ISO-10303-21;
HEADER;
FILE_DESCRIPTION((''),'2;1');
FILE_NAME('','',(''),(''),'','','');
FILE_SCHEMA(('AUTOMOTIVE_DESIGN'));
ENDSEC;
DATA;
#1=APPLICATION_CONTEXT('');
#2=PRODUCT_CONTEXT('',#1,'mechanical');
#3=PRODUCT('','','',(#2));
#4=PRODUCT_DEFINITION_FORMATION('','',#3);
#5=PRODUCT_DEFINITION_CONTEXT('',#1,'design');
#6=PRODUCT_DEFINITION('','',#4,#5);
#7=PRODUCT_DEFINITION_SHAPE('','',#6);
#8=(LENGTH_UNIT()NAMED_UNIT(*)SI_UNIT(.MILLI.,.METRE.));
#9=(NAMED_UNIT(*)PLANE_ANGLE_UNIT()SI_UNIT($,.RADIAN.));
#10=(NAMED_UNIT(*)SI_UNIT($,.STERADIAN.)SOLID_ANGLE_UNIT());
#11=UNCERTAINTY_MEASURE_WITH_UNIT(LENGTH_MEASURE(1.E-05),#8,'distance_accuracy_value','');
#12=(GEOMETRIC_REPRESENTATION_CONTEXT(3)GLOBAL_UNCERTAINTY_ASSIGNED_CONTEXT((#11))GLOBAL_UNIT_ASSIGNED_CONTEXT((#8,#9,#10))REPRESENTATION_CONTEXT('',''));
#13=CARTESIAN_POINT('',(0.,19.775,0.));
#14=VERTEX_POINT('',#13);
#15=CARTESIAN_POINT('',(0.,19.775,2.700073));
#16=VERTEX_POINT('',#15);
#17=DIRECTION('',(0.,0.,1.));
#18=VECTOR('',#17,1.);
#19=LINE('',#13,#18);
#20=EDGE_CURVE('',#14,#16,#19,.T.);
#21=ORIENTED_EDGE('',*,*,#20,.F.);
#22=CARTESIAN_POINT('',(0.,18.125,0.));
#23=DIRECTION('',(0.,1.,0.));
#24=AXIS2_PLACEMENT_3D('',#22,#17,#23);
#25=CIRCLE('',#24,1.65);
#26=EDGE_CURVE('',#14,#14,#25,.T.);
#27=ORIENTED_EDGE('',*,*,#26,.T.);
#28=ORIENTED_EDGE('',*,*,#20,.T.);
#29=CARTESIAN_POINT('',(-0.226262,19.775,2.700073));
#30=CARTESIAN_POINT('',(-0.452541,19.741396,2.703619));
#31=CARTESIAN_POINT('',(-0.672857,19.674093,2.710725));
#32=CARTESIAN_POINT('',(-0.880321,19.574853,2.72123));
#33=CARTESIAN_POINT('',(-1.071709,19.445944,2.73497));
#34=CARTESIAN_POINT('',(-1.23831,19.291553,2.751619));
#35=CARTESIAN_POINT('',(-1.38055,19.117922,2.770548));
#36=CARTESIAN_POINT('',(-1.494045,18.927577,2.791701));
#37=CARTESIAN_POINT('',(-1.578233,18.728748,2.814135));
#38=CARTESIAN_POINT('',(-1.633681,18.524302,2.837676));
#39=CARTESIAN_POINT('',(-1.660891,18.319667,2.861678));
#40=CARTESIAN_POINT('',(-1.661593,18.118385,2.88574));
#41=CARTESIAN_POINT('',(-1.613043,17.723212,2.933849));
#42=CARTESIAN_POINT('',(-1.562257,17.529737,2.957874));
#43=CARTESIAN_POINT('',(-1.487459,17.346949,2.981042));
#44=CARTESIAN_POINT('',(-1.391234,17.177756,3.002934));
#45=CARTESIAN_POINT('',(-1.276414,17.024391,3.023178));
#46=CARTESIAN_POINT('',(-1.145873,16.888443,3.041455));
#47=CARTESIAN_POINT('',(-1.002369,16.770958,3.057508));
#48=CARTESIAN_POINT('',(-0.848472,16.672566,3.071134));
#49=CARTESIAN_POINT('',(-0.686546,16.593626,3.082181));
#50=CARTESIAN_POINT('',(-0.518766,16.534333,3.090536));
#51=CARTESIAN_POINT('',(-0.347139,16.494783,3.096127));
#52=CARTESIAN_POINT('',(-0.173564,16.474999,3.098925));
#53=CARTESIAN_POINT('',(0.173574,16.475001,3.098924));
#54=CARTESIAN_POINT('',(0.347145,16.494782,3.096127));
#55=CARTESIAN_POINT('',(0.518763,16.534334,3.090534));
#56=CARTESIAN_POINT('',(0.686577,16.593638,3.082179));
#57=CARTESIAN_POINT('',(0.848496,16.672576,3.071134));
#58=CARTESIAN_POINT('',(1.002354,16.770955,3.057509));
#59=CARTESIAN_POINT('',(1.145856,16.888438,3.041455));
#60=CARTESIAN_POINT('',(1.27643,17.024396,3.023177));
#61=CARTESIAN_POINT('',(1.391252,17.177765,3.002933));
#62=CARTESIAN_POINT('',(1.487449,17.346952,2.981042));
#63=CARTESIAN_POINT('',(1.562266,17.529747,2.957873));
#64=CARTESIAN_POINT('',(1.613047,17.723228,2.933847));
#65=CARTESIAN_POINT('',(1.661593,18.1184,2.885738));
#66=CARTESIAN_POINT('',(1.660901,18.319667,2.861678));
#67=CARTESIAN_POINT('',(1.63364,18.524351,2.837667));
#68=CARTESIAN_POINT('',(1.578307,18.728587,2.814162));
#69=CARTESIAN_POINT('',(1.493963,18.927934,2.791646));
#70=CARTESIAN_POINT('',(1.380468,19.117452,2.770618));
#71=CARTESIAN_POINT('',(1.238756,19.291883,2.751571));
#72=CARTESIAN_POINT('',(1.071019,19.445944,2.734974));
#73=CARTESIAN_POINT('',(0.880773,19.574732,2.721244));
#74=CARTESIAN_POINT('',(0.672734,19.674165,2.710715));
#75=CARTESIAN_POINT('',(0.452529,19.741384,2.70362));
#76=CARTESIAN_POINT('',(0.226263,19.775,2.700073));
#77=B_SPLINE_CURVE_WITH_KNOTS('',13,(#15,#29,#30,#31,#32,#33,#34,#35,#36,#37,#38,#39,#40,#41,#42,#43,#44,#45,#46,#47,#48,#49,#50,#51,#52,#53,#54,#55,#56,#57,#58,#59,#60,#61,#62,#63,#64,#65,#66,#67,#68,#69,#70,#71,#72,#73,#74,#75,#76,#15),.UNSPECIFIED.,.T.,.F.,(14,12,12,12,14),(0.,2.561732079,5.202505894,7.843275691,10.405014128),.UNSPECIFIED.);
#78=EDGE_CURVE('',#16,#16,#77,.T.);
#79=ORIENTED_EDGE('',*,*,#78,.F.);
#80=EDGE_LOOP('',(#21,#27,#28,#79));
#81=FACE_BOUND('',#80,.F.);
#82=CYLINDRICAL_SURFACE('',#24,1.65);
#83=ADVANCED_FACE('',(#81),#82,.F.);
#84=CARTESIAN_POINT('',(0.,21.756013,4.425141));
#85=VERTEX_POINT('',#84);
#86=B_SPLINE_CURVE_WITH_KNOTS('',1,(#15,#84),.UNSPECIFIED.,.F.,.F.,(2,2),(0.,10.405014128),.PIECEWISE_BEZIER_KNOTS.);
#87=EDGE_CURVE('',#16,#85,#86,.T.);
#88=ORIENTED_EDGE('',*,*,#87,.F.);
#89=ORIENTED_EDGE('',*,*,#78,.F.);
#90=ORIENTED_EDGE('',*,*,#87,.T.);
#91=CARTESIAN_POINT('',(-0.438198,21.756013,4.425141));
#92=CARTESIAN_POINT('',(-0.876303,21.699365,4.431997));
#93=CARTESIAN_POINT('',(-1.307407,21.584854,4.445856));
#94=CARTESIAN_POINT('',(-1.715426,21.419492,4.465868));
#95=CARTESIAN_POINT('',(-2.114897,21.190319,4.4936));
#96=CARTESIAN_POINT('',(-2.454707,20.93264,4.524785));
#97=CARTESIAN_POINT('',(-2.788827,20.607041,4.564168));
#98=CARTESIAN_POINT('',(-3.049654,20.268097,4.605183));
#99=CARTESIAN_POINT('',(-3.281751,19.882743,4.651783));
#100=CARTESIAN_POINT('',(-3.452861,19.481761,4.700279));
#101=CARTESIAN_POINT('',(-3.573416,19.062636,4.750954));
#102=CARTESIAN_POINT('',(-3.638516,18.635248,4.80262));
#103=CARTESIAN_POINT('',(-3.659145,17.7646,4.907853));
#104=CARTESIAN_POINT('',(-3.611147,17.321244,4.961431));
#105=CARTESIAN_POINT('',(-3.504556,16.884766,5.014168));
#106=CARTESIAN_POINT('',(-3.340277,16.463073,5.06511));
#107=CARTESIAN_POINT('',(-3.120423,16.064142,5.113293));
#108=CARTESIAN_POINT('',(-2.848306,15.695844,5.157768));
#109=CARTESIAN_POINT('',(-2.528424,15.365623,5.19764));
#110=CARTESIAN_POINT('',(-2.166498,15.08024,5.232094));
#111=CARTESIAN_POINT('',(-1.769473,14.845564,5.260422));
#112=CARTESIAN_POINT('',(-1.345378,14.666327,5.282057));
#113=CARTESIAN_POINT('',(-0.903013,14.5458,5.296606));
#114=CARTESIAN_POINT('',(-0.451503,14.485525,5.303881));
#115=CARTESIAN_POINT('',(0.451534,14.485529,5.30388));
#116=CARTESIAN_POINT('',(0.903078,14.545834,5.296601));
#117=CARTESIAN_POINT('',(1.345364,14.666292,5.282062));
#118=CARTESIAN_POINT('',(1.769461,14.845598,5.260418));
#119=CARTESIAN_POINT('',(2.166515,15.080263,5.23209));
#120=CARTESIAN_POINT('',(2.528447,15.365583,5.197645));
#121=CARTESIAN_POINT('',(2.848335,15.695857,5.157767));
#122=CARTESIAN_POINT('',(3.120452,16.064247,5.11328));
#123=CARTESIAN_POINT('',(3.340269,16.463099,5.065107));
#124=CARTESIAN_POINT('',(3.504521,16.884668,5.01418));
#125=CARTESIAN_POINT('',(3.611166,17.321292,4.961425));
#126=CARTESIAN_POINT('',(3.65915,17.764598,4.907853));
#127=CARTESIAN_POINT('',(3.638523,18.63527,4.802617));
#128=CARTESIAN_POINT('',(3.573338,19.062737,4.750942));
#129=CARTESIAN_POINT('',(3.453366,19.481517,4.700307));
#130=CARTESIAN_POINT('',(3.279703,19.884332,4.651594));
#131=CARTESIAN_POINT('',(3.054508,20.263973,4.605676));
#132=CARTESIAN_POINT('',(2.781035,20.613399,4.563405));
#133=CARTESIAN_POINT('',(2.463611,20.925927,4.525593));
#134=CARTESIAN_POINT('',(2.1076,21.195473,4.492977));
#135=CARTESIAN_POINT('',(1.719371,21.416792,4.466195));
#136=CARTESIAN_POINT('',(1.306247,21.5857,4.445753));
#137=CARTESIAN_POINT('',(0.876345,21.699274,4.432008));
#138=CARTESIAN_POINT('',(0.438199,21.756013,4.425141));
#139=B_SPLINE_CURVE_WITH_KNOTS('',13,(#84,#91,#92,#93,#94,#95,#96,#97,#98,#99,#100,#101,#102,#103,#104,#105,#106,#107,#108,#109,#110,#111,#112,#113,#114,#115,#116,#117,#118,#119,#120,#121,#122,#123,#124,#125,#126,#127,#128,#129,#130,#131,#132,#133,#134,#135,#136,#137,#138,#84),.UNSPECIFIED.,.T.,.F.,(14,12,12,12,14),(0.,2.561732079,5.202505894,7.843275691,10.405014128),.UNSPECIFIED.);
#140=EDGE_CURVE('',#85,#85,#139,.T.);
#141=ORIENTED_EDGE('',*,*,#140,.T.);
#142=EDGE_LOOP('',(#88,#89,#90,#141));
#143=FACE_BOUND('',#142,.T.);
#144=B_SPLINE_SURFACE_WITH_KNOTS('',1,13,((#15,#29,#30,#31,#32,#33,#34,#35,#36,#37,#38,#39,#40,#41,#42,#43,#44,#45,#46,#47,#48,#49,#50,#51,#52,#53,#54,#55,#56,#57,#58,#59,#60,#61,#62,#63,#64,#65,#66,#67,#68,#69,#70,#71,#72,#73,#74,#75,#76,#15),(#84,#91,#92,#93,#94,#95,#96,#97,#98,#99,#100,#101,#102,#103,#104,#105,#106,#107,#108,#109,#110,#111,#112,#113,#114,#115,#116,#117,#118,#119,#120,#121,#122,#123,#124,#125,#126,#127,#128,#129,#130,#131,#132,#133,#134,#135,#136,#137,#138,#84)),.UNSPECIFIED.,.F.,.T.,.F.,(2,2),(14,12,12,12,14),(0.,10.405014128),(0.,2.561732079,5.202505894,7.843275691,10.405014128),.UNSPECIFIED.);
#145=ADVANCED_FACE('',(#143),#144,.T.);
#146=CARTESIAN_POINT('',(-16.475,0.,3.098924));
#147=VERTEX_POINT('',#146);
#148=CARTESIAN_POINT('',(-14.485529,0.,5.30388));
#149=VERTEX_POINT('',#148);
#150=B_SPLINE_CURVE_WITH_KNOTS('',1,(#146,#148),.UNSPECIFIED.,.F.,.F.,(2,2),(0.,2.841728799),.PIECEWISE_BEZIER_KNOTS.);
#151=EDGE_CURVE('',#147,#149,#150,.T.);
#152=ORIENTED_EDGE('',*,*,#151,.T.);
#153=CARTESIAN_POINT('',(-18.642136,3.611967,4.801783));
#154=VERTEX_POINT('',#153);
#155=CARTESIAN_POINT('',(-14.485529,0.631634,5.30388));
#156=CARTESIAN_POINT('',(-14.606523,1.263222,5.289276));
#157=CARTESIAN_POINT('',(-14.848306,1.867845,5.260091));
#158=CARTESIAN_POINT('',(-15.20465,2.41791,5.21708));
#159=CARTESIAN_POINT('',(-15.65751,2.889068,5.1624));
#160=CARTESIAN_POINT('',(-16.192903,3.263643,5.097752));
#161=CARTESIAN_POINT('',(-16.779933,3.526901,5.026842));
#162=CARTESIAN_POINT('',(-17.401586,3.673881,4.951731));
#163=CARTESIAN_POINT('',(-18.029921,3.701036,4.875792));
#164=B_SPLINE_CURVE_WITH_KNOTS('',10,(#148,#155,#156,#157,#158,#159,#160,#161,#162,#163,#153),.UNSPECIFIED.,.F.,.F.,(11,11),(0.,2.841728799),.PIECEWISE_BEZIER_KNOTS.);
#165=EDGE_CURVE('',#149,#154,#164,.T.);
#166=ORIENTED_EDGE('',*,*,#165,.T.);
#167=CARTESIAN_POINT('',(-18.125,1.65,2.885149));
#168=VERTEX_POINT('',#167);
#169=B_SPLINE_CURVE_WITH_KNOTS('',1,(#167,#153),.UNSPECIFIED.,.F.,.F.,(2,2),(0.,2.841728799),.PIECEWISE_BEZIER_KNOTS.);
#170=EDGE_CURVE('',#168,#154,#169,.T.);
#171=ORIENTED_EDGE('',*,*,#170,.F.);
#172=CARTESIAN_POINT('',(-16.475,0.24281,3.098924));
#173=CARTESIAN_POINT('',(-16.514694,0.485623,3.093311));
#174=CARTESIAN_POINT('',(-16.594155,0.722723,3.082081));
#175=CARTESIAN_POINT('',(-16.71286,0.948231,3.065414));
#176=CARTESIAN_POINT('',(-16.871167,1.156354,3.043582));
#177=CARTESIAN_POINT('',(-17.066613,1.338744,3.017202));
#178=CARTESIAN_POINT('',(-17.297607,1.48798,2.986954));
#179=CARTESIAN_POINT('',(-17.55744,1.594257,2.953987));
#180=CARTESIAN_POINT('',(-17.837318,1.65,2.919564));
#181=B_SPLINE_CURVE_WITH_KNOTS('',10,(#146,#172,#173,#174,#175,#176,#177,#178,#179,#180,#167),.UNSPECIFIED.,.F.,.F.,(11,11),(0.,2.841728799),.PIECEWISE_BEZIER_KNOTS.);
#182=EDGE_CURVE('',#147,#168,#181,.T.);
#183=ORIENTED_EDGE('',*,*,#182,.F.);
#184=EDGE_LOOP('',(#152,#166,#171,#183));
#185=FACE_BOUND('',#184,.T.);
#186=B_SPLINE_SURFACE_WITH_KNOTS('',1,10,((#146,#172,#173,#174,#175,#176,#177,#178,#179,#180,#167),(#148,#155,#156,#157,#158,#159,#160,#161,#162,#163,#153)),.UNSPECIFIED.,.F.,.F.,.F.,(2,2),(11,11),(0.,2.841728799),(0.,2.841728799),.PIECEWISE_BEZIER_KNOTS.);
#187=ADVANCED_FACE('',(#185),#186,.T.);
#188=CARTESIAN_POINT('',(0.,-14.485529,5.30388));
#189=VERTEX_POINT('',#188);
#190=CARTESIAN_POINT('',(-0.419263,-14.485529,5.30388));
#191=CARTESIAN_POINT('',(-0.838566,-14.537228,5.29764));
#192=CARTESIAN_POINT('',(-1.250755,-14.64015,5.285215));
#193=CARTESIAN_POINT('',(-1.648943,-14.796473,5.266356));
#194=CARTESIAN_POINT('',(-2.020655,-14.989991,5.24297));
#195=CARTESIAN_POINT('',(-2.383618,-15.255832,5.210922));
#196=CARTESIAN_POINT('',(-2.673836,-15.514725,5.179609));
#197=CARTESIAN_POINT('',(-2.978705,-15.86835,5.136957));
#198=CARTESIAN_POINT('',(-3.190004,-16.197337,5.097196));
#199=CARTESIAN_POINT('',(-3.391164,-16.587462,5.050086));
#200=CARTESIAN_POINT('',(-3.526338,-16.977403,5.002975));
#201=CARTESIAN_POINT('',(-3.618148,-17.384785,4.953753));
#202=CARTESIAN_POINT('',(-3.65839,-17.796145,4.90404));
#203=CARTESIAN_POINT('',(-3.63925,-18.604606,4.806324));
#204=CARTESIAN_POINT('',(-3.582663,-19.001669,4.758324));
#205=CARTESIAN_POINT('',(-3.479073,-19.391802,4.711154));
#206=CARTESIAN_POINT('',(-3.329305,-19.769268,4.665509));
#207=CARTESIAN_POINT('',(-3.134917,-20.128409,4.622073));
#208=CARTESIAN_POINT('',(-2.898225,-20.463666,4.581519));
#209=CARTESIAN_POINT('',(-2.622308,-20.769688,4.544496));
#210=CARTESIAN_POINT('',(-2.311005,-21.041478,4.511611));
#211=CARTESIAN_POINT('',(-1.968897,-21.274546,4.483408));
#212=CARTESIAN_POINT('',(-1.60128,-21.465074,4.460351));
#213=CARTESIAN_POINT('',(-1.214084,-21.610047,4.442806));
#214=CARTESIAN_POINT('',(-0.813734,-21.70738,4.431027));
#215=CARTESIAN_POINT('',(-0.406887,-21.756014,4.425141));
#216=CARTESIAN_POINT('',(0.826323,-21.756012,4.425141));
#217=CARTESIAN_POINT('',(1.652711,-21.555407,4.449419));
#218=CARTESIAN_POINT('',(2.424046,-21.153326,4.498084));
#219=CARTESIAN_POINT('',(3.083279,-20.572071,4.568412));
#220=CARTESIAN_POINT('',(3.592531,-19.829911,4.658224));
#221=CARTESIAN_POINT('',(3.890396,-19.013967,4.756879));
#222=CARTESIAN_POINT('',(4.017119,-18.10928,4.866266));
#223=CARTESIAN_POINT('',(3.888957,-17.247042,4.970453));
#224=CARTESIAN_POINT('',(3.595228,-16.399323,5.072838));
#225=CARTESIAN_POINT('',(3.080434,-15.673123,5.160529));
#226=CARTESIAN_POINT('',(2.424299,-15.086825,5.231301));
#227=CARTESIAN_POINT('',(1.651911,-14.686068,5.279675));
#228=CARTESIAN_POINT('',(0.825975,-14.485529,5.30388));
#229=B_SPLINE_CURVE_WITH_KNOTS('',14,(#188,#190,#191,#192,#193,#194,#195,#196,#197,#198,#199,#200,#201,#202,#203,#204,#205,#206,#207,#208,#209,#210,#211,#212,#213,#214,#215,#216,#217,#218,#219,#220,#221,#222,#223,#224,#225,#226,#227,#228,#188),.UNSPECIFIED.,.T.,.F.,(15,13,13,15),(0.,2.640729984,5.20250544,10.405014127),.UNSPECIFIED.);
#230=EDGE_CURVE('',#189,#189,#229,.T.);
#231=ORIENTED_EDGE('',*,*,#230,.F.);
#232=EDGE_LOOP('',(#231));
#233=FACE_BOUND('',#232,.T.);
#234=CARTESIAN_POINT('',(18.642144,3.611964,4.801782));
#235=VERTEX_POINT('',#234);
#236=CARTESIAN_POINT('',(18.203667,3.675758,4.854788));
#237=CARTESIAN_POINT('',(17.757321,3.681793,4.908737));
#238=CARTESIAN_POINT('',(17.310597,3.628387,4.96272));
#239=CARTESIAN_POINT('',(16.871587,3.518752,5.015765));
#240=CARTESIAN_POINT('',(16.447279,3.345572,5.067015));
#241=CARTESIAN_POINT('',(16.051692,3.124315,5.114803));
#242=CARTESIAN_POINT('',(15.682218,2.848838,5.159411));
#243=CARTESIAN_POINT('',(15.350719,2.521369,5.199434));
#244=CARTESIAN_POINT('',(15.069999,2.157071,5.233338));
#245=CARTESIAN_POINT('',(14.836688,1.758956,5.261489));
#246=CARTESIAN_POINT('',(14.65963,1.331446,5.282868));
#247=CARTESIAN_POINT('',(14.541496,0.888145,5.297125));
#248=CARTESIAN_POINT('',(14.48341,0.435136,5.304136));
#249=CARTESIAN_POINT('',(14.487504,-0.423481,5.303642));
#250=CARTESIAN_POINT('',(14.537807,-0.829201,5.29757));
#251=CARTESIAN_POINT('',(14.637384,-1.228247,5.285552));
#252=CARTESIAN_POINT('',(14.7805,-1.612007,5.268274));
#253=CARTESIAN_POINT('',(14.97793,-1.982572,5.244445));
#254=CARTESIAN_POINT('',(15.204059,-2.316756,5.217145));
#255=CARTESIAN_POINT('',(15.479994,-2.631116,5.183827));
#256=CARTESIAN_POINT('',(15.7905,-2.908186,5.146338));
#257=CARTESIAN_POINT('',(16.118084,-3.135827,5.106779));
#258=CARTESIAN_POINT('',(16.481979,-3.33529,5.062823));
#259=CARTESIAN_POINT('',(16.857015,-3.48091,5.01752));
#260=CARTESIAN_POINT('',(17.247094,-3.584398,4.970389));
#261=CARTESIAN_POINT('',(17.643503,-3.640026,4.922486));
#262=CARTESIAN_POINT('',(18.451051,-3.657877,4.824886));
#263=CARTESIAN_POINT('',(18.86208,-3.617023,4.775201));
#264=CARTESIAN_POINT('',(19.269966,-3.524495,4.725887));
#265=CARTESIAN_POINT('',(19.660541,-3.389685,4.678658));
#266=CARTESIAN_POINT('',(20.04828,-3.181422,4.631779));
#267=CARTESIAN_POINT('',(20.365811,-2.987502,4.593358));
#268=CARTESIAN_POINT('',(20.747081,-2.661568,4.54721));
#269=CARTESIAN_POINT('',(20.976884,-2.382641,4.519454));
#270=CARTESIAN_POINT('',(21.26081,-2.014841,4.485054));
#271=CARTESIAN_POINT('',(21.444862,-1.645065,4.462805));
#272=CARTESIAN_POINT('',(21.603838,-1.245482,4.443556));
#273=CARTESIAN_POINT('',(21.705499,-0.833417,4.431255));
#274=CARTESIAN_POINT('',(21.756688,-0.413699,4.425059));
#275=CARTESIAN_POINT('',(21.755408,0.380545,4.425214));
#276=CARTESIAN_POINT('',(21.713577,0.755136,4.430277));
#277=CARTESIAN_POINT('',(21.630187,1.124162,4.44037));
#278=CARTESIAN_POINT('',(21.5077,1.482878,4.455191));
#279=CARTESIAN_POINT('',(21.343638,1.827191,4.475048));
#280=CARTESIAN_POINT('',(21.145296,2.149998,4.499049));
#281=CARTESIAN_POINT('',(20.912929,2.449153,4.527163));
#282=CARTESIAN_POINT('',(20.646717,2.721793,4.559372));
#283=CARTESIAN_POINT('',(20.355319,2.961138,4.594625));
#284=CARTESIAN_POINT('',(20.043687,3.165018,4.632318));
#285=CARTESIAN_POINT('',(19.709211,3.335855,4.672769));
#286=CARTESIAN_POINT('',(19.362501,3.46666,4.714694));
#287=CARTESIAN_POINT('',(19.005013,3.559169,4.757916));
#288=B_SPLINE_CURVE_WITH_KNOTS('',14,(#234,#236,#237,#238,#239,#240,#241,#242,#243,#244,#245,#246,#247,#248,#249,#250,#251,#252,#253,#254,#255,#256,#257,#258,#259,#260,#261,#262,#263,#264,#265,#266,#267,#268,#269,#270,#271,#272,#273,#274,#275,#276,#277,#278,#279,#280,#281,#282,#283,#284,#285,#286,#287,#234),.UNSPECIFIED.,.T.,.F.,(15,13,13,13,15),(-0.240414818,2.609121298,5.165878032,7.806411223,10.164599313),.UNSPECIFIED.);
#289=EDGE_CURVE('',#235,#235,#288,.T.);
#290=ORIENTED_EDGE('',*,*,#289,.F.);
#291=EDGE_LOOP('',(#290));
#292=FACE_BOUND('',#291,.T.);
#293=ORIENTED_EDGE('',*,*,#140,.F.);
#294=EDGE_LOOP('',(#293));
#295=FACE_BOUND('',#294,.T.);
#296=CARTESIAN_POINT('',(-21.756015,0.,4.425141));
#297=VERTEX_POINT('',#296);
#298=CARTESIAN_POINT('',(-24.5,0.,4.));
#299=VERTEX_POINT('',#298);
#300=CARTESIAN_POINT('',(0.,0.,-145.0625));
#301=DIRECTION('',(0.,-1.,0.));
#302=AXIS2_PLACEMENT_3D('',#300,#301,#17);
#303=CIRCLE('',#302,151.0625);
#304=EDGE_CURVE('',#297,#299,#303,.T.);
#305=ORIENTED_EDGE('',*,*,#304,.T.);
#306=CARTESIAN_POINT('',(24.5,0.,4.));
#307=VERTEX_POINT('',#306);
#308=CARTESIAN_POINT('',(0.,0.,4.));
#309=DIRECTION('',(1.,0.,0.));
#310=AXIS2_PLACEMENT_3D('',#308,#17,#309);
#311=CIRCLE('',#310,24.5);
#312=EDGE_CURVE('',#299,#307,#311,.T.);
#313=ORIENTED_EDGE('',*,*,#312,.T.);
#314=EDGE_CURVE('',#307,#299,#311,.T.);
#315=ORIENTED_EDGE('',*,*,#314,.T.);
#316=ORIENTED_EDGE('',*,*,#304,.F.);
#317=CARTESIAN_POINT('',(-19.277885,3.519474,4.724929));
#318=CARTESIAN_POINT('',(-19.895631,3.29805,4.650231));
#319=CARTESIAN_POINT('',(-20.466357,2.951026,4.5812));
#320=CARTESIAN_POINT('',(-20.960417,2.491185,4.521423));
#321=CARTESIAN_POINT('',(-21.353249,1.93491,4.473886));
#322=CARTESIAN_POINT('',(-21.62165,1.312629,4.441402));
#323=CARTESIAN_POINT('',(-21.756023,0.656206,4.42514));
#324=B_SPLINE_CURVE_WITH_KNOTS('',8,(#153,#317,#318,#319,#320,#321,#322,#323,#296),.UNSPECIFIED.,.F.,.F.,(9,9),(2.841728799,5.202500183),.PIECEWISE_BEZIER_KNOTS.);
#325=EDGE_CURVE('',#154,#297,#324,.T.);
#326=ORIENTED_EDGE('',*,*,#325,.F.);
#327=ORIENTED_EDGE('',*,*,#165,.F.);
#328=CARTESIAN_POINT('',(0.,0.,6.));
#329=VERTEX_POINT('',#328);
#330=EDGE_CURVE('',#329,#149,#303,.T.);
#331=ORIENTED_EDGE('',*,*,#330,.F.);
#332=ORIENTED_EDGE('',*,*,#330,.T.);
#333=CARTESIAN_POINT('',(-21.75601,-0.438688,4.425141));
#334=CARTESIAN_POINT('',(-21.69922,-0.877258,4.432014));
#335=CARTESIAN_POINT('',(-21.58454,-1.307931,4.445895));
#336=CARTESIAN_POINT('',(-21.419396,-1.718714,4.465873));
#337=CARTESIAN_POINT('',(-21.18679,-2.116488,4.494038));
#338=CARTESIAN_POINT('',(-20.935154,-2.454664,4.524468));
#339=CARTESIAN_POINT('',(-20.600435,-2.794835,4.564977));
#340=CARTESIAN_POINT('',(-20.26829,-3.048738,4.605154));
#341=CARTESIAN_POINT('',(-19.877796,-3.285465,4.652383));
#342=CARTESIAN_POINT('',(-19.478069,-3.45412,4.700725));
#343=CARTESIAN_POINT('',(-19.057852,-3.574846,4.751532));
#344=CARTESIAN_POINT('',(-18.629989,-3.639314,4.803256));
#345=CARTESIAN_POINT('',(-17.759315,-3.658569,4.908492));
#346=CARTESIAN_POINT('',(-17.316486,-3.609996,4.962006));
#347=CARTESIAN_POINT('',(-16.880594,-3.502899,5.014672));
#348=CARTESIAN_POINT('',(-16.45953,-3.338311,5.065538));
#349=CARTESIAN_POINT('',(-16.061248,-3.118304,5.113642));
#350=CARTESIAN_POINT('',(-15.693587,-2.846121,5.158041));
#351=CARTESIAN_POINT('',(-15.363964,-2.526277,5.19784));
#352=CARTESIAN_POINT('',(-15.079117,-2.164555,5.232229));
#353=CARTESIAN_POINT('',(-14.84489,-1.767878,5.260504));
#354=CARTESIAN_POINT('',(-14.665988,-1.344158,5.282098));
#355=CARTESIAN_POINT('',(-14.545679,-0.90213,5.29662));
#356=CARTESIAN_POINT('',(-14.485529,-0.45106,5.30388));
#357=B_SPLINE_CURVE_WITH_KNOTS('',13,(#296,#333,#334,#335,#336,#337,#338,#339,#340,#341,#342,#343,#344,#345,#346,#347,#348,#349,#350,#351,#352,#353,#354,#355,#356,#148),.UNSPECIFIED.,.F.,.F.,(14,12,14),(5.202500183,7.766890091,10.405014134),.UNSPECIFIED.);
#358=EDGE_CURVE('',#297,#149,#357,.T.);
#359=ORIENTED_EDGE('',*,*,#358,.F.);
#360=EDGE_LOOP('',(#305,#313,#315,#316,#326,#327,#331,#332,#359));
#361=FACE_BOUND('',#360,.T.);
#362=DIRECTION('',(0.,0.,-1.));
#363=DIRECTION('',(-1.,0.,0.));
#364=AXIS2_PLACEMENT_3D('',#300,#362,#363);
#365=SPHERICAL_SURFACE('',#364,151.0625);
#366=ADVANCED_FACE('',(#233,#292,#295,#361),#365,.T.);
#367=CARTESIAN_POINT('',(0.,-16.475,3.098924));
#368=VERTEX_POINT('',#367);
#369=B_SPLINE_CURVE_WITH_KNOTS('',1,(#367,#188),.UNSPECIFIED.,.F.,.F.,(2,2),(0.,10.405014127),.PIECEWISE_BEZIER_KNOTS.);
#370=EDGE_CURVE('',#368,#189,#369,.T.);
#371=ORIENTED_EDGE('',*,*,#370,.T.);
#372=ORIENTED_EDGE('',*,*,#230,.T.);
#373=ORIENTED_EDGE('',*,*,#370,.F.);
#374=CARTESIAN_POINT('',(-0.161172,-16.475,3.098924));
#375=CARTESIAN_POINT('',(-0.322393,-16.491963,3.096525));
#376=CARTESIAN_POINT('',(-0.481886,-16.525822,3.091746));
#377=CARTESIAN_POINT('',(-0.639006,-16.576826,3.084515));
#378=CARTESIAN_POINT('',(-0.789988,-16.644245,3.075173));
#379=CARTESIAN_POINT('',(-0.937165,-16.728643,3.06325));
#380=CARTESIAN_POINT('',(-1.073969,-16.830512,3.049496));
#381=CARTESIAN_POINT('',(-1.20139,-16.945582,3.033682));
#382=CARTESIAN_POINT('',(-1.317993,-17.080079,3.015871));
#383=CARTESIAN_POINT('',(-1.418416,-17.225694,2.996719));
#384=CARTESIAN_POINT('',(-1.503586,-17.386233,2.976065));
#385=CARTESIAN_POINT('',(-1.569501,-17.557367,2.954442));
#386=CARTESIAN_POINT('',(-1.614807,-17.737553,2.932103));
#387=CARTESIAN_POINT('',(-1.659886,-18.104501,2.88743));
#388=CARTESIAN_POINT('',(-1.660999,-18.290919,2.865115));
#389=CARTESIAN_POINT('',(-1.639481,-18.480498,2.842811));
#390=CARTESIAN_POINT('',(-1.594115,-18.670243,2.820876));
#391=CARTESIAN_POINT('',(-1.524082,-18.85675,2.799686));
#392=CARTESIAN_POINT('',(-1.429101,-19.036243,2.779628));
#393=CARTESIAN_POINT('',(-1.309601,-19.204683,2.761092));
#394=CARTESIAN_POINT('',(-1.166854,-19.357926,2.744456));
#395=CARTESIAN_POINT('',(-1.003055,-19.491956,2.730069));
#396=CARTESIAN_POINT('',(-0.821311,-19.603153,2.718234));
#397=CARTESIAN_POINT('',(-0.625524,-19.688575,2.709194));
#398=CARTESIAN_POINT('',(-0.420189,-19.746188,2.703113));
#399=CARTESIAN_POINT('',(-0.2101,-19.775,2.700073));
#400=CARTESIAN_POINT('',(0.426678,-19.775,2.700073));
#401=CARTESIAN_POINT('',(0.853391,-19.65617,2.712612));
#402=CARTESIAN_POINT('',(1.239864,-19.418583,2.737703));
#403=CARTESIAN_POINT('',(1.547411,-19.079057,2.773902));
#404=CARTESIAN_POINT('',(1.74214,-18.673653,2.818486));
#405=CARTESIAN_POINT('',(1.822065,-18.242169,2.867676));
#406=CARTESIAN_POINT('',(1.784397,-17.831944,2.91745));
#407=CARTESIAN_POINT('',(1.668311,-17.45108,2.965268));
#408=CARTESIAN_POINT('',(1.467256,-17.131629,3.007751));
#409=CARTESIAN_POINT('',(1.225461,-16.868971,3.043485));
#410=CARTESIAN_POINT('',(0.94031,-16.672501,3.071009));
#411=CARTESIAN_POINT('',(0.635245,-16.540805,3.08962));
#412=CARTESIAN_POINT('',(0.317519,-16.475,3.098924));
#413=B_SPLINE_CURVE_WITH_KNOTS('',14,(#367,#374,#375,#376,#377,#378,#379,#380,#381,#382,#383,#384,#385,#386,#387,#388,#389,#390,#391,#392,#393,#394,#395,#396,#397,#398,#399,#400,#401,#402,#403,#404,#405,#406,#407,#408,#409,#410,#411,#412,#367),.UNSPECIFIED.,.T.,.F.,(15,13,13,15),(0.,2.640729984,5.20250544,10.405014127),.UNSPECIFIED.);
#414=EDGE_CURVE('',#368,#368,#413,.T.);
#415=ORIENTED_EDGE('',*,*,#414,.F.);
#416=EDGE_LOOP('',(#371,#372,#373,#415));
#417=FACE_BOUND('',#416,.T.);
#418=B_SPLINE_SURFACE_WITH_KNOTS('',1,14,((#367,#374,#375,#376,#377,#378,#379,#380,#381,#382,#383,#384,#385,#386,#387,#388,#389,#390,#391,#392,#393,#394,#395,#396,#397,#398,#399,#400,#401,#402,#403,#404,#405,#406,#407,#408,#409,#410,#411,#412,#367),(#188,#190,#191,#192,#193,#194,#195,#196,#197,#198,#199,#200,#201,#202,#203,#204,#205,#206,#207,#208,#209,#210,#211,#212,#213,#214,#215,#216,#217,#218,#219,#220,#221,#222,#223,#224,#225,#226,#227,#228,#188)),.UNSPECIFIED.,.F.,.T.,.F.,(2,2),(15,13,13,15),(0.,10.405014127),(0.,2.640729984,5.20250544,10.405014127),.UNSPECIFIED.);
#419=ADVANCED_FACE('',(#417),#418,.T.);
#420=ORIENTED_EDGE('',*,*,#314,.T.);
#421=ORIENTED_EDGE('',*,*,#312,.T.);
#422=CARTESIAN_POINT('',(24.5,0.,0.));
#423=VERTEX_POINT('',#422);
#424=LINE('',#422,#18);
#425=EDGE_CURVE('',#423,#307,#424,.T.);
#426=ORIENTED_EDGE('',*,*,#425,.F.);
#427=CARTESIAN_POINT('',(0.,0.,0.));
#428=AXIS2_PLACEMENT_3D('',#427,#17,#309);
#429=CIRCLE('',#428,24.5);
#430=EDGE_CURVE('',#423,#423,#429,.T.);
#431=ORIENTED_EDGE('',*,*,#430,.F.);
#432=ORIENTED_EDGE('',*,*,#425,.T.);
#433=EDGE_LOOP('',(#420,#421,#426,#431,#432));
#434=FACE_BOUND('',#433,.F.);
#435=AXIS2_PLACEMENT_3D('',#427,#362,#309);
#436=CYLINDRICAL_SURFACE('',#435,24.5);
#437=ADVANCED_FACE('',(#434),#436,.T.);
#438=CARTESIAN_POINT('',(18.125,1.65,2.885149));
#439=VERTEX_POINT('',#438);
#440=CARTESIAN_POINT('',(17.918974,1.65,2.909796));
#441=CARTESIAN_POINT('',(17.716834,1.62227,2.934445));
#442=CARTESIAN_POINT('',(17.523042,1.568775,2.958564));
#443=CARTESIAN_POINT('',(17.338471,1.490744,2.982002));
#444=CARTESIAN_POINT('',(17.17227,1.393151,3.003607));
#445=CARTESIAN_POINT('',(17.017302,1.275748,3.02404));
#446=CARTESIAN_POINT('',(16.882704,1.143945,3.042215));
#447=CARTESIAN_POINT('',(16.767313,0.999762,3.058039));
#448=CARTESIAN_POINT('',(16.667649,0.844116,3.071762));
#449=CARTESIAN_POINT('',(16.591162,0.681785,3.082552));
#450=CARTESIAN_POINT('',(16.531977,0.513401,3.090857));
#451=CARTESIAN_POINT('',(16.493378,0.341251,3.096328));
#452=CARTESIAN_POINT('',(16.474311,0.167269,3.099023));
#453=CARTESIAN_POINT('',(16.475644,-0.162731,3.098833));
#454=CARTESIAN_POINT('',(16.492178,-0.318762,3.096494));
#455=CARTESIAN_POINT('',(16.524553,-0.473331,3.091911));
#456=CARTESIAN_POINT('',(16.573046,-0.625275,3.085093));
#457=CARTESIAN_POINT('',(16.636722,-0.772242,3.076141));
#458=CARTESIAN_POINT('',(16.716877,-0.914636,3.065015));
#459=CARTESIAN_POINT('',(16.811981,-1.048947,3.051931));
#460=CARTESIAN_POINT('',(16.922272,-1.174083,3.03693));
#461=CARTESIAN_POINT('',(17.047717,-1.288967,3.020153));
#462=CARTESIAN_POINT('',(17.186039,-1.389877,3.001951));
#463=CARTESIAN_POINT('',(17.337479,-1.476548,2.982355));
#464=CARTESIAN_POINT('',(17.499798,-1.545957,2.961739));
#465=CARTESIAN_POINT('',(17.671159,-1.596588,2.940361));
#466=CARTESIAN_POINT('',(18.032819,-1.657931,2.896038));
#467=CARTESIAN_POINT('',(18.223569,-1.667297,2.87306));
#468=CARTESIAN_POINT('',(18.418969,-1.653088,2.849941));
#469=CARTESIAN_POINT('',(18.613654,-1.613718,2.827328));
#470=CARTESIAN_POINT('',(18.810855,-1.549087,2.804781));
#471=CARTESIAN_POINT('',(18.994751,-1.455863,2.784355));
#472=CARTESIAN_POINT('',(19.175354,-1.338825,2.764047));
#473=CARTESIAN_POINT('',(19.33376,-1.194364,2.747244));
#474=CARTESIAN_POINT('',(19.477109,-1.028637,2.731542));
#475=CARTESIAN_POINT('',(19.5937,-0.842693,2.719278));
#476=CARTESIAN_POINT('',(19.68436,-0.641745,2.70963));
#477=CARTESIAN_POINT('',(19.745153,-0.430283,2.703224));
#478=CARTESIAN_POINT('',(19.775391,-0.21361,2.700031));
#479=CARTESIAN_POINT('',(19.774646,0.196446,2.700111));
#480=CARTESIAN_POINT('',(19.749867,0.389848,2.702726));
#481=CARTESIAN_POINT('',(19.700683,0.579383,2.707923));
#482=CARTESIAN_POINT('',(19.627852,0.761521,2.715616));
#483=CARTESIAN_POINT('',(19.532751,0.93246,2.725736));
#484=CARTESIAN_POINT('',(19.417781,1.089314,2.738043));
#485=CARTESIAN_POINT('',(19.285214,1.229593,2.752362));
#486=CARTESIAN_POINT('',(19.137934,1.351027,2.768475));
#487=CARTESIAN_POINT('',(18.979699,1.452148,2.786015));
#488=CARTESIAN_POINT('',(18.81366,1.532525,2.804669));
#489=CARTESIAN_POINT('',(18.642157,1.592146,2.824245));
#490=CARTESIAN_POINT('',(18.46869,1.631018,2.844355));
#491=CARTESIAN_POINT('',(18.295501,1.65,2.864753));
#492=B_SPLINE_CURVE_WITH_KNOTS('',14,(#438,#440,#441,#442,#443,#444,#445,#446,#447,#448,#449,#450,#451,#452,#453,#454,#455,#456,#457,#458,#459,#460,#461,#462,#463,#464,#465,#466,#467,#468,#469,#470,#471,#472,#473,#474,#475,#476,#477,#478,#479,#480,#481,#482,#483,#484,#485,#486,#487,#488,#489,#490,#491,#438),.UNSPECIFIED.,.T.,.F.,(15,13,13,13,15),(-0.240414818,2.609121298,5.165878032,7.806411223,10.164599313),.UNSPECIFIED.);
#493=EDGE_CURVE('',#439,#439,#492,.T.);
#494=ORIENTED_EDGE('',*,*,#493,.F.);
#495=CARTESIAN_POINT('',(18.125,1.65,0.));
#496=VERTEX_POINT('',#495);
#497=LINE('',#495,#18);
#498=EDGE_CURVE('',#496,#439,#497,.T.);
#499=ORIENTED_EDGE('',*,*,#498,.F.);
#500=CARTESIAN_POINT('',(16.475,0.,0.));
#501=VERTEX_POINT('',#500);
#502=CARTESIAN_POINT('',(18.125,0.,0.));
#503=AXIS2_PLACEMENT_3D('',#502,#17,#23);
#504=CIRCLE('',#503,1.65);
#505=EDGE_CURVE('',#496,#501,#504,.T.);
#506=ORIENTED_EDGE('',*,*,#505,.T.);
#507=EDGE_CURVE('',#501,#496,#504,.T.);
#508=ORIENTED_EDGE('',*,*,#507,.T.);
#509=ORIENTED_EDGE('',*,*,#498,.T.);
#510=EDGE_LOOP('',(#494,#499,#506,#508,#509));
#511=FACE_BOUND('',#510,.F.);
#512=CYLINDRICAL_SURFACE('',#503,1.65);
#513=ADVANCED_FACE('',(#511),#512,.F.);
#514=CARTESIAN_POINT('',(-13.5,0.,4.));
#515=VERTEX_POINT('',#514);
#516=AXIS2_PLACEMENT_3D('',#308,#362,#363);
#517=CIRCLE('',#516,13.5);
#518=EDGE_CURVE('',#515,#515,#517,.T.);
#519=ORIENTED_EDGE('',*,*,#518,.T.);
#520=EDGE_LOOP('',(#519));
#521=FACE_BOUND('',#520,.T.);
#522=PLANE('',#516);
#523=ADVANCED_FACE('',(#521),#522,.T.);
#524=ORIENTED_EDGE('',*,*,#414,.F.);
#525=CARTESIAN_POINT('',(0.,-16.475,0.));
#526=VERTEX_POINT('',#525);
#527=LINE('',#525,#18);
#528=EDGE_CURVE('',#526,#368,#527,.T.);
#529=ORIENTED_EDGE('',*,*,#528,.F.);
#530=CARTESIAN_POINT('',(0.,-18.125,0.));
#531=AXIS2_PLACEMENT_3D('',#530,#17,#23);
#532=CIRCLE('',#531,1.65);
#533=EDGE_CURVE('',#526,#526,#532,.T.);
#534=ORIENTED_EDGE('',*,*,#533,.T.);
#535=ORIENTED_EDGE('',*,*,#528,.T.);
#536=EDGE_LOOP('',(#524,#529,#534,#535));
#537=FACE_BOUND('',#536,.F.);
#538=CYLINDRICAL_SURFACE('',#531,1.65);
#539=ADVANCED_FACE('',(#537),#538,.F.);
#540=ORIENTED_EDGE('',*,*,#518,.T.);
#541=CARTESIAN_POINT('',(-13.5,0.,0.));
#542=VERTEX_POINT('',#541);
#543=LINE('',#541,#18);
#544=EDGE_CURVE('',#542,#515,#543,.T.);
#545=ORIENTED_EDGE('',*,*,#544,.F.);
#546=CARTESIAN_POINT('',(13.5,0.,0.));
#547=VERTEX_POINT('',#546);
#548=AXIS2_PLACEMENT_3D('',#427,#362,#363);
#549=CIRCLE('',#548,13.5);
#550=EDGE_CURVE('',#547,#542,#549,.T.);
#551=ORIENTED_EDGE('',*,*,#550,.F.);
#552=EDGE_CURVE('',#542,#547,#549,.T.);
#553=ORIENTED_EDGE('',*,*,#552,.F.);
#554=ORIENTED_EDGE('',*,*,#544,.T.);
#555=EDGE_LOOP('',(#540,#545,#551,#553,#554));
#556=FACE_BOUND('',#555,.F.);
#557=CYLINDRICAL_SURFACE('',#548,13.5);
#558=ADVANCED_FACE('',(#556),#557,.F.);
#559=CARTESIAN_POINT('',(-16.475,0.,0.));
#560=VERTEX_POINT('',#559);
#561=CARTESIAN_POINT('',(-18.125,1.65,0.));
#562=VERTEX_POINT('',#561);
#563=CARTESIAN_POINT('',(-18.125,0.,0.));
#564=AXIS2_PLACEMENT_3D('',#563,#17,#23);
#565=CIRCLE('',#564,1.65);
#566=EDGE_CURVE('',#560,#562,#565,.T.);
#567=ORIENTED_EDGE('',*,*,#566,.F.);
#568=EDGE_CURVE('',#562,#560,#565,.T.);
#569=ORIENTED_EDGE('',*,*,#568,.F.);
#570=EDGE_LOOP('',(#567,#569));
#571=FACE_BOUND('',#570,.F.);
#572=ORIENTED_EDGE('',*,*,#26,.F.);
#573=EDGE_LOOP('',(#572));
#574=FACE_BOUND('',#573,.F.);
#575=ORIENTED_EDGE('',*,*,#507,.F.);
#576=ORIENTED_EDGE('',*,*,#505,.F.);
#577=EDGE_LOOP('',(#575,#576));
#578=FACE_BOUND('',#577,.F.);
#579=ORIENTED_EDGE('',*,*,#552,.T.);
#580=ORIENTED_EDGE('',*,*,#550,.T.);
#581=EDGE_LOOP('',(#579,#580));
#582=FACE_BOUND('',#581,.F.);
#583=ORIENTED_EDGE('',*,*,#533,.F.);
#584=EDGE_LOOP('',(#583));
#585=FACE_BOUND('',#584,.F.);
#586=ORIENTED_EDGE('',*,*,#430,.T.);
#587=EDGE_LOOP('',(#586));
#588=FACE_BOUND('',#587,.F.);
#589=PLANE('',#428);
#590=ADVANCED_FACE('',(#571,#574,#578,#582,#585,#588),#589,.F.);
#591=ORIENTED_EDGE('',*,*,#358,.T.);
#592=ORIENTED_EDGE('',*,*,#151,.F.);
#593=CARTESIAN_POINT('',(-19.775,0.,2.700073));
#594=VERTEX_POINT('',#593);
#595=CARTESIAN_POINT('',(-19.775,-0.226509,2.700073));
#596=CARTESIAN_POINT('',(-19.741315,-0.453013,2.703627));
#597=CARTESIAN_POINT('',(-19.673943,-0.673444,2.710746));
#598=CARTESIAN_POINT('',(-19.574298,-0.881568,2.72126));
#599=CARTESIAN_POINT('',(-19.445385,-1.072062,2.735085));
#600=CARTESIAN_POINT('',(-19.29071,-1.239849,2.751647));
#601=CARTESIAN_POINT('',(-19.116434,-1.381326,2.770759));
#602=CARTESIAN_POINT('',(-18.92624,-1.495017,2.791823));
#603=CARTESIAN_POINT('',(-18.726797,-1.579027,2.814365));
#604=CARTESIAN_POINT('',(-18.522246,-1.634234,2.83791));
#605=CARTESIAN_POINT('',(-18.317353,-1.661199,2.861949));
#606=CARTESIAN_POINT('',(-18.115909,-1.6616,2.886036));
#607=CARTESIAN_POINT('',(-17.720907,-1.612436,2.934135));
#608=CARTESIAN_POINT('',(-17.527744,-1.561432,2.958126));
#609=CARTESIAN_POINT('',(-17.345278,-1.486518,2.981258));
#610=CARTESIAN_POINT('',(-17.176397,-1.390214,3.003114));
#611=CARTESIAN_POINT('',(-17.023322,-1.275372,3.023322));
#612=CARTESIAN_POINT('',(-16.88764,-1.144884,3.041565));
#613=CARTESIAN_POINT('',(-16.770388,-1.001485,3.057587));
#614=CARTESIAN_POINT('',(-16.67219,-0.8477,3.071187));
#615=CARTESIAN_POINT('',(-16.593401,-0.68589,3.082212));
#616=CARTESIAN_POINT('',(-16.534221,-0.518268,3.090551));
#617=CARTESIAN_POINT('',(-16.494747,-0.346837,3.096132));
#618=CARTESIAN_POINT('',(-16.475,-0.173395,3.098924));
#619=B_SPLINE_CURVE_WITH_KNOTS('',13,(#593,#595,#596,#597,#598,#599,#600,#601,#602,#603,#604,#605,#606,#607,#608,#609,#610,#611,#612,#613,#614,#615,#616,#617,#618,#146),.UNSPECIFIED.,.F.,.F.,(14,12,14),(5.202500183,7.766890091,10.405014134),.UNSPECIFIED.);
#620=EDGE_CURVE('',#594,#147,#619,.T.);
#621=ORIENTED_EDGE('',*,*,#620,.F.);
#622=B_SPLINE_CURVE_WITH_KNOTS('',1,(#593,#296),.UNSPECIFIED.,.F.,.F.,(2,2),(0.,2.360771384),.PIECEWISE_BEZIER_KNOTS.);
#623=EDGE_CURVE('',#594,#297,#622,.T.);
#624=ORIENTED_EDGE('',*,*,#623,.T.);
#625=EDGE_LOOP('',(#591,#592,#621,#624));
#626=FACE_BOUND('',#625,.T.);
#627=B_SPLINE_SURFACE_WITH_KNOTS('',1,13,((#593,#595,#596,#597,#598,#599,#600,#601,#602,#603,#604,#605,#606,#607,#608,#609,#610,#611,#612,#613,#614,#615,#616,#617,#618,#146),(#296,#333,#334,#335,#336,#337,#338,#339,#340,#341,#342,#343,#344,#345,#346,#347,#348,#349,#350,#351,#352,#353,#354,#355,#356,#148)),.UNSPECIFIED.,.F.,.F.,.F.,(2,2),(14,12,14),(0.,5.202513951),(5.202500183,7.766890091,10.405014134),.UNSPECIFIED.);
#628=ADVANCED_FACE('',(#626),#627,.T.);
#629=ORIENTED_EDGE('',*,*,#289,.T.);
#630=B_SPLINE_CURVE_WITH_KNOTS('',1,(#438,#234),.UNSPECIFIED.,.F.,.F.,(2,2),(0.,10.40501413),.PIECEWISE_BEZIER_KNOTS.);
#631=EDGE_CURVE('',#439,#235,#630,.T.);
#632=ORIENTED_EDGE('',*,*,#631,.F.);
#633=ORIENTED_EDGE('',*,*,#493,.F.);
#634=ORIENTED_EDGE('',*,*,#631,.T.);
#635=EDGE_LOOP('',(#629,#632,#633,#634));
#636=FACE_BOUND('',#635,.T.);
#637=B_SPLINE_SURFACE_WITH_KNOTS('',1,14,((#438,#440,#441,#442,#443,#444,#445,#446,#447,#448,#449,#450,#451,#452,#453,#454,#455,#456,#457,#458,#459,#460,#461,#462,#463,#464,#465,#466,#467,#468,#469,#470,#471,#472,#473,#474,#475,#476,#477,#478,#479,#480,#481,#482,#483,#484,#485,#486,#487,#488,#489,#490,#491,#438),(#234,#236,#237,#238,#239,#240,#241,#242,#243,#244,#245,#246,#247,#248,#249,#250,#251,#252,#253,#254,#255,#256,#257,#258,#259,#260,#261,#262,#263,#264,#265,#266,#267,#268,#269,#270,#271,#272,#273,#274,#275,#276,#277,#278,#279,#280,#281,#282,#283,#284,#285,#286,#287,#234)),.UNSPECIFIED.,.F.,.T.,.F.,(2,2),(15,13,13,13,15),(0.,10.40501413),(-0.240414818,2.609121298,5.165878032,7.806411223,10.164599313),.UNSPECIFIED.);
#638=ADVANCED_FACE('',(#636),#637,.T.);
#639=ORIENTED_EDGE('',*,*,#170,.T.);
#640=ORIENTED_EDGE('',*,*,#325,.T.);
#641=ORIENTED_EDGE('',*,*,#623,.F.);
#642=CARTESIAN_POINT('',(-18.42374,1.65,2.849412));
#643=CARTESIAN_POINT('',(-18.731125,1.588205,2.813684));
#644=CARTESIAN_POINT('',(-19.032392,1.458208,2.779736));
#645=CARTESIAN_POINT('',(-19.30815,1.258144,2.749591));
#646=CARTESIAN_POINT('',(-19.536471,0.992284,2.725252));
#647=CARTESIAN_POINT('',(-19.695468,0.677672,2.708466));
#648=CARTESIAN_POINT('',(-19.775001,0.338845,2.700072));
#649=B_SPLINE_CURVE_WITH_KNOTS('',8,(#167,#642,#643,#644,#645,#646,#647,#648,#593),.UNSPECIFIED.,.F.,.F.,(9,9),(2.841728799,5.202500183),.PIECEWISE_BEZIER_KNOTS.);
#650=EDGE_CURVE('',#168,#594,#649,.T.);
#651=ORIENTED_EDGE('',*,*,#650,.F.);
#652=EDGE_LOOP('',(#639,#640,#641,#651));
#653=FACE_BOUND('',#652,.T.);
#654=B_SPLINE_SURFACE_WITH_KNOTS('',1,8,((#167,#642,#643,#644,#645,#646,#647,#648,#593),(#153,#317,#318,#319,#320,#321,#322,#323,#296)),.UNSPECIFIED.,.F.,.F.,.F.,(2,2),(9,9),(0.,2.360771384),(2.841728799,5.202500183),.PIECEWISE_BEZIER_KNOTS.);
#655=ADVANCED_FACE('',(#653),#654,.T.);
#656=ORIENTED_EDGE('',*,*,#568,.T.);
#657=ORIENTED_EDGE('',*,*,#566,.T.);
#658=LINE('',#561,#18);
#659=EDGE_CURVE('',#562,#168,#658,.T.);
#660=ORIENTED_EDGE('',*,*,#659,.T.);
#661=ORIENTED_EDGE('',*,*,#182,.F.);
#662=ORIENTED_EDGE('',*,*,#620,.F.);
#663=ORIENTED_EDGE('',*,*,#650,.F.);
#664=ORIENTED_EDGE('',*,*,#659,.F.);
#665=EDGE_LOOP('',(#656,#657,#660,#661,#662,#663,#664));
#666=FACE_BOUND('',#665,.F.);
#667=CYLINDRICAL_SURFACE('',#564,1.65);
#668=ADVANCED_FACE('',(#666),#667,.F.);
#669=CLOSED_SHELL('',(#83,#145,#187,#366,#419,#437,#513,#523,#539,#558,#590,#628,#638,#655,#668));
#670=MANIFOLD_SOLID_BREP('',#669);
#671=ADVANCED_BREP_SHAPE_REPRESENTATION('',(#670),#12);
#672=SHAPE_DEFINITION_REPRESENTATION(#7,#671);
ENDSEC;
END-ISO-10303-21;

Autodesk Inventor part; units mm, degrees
ref_plane "YZ Plane" through (0, 0, 0) normal (1, 0, 0) x (0, 1, 0)
ref_plane "XZ Plane" through (0, 0, 0) normal (0, 1, 0) x (-1, 0, 0)
sketch "Skizze1" plane through (0, 0, 0) normal (0, 0, 1) x (1, 0, 0)
  circle A0 centre (0, 18.125) radius 1.4 projected
  circle A1 centre (-18.125, 0) radius 1.4 projected
  circle A2 centre (0, -18.125) radius 1.4 projected
  circle A3 centre (18.125, 0) radius 1.4 projected
  circle A4 centre (0, 0) radius 11.25 projected
  circle A5 centre (0, 0) radius 25 projected
  circle A6 centre (0, 0) radius 24.5
  line L0 (-18.125, 0) -> (18.125, 0)
  circle A7 centre (0, 0) radius 13
  point P0 (0, 0)
  dimension "d0" = 49
  dimension "d19" = 26
extrude "Extrusion1" add sketch "Skizze1" along normal blind 4 contours A7 L0 A4 | L0 A4 A7 | A6
sketch "Skizze2" plane through (0, 0, 4) normal (0, 0, 1) x (1, 0, 0)
  circle A0 centre (0, 0) radius 11.25 projected
  circle A1 centre (18.125, 0) radius 1.4 projected
  circle A2 centre (0, -18.125) radius 1.4 projected
  circle A3 centre (-18.125, 0) radius 1.4 projected
  circle A4 centre (0, 18.125) radius 1.4 projected
  circle A5 centre (0, 0) radius 24.5 projected
ref_plane "Arbeitsebene1" through (-18.125, 0, 0) normal (0, -1, 0) x (1, 0, 0)
sketch "Skizze3" plane through (-18.125, 0, 0) normal (0, -1, 0) x (1, 0, 0)
  line L0 (34.85, 4) -> (34.85, 0) projected
  line L1 (34.85, 0) -> (29.375, 0) projected
  line L2 (29.375, 0) -> (29.375, 4) projected
  line L3 (29.375, 4) -> (34.85, 4) projected
  line L4 (1.4, 0) -> (1.4, 4) projected
  line L5 (1.4, 4) -> (6.875, 4) projected
  line L6 (6.875, 4) -> (6.875, 0) projected
  line L7 (6.875, 0) -> (1.4, 0) projected
  line L8 (-6.375, 0) -> (-6.375, 4) projected
  line L9 (-6.375, 4) -> (-1.4, 4) projected
  line L10 (-1.4, 4) -> (-1.4, 0) projected
  line L11 (-1.4, 0) -> (-6.375, 0) projected
  line L12 (42.625, 4) -> (42.625, 0) projected
  line L13 (42.625, 0) -> (37.65, 0) projected
  line L14 (37.65, 0) -> (37.65, 4) projected
  line L15 (37.65, 4) -> (42.625, 4) projected
  arc A0 (18.125, 6) -> (-6.375, 4) centre (18.125, -145.0625) ccw
  line L16 (18.125, 6) -> (18.125, 4)
  line L17 (18.125, 4) -> (-6.375, 4)
  line L18 (18.125, 18.126) -> (18.125, -80.6859)
  point P0 (18.125, 0)
  dimension "d4" = 2
revolve "Umdrehung1" add sketch "Skizze3" angle 360 about axis through (0, 0, 6) along (0, 0, -1) contours L17 L9 A0 L16 L5
sketch "Skizze4" plane through (0, 0, 0) normal (0, 0, -1) x (-1, 0, 0)
  circle A0 centre (-18.125, 0) radius 1.4 projected
  circle A1 centre (0, -18.125) radius 1.4 projected
  circle A2 centre (18.125, 0) radius 1.4 projected
  circle A3 centre (0, 18.125) radius 1.4 projected
hole "Bohrung1" at (18.125, 0, 0) at (0, -18.125, 0) at (-18.125, 0, 0) at (0, 18.125, 0) direction (0, 0, 1) diameter 3.3 end through all
chamfer "Fase1" distance 2 angle 45 6 edges at (-16.961, 1.1694, 5.0403) (-19.2889, 1.1696, 4.7589) (-18.1249, -1.65, 4.8996) (0, 16.475, 5.0989) (18.1248, -1.65, 4.8997) (0, -19.775, 4.7001)
sketch "Skizze5" plane through (0, 0, 0) normal (0, 0, -1) x (-1, 0, 0)
  circle A0 centre (0, 0) radius 11.25 projected
  circle A1 centre (0, 0) radius 13.5
  dimension "d20" = 27
extrude "Extrusion2" cut sketch "Skizze5" against normal up to surface (4 mm away)
properties part number "Abdeckung" material "ABS-Kunststoff - Orange"
